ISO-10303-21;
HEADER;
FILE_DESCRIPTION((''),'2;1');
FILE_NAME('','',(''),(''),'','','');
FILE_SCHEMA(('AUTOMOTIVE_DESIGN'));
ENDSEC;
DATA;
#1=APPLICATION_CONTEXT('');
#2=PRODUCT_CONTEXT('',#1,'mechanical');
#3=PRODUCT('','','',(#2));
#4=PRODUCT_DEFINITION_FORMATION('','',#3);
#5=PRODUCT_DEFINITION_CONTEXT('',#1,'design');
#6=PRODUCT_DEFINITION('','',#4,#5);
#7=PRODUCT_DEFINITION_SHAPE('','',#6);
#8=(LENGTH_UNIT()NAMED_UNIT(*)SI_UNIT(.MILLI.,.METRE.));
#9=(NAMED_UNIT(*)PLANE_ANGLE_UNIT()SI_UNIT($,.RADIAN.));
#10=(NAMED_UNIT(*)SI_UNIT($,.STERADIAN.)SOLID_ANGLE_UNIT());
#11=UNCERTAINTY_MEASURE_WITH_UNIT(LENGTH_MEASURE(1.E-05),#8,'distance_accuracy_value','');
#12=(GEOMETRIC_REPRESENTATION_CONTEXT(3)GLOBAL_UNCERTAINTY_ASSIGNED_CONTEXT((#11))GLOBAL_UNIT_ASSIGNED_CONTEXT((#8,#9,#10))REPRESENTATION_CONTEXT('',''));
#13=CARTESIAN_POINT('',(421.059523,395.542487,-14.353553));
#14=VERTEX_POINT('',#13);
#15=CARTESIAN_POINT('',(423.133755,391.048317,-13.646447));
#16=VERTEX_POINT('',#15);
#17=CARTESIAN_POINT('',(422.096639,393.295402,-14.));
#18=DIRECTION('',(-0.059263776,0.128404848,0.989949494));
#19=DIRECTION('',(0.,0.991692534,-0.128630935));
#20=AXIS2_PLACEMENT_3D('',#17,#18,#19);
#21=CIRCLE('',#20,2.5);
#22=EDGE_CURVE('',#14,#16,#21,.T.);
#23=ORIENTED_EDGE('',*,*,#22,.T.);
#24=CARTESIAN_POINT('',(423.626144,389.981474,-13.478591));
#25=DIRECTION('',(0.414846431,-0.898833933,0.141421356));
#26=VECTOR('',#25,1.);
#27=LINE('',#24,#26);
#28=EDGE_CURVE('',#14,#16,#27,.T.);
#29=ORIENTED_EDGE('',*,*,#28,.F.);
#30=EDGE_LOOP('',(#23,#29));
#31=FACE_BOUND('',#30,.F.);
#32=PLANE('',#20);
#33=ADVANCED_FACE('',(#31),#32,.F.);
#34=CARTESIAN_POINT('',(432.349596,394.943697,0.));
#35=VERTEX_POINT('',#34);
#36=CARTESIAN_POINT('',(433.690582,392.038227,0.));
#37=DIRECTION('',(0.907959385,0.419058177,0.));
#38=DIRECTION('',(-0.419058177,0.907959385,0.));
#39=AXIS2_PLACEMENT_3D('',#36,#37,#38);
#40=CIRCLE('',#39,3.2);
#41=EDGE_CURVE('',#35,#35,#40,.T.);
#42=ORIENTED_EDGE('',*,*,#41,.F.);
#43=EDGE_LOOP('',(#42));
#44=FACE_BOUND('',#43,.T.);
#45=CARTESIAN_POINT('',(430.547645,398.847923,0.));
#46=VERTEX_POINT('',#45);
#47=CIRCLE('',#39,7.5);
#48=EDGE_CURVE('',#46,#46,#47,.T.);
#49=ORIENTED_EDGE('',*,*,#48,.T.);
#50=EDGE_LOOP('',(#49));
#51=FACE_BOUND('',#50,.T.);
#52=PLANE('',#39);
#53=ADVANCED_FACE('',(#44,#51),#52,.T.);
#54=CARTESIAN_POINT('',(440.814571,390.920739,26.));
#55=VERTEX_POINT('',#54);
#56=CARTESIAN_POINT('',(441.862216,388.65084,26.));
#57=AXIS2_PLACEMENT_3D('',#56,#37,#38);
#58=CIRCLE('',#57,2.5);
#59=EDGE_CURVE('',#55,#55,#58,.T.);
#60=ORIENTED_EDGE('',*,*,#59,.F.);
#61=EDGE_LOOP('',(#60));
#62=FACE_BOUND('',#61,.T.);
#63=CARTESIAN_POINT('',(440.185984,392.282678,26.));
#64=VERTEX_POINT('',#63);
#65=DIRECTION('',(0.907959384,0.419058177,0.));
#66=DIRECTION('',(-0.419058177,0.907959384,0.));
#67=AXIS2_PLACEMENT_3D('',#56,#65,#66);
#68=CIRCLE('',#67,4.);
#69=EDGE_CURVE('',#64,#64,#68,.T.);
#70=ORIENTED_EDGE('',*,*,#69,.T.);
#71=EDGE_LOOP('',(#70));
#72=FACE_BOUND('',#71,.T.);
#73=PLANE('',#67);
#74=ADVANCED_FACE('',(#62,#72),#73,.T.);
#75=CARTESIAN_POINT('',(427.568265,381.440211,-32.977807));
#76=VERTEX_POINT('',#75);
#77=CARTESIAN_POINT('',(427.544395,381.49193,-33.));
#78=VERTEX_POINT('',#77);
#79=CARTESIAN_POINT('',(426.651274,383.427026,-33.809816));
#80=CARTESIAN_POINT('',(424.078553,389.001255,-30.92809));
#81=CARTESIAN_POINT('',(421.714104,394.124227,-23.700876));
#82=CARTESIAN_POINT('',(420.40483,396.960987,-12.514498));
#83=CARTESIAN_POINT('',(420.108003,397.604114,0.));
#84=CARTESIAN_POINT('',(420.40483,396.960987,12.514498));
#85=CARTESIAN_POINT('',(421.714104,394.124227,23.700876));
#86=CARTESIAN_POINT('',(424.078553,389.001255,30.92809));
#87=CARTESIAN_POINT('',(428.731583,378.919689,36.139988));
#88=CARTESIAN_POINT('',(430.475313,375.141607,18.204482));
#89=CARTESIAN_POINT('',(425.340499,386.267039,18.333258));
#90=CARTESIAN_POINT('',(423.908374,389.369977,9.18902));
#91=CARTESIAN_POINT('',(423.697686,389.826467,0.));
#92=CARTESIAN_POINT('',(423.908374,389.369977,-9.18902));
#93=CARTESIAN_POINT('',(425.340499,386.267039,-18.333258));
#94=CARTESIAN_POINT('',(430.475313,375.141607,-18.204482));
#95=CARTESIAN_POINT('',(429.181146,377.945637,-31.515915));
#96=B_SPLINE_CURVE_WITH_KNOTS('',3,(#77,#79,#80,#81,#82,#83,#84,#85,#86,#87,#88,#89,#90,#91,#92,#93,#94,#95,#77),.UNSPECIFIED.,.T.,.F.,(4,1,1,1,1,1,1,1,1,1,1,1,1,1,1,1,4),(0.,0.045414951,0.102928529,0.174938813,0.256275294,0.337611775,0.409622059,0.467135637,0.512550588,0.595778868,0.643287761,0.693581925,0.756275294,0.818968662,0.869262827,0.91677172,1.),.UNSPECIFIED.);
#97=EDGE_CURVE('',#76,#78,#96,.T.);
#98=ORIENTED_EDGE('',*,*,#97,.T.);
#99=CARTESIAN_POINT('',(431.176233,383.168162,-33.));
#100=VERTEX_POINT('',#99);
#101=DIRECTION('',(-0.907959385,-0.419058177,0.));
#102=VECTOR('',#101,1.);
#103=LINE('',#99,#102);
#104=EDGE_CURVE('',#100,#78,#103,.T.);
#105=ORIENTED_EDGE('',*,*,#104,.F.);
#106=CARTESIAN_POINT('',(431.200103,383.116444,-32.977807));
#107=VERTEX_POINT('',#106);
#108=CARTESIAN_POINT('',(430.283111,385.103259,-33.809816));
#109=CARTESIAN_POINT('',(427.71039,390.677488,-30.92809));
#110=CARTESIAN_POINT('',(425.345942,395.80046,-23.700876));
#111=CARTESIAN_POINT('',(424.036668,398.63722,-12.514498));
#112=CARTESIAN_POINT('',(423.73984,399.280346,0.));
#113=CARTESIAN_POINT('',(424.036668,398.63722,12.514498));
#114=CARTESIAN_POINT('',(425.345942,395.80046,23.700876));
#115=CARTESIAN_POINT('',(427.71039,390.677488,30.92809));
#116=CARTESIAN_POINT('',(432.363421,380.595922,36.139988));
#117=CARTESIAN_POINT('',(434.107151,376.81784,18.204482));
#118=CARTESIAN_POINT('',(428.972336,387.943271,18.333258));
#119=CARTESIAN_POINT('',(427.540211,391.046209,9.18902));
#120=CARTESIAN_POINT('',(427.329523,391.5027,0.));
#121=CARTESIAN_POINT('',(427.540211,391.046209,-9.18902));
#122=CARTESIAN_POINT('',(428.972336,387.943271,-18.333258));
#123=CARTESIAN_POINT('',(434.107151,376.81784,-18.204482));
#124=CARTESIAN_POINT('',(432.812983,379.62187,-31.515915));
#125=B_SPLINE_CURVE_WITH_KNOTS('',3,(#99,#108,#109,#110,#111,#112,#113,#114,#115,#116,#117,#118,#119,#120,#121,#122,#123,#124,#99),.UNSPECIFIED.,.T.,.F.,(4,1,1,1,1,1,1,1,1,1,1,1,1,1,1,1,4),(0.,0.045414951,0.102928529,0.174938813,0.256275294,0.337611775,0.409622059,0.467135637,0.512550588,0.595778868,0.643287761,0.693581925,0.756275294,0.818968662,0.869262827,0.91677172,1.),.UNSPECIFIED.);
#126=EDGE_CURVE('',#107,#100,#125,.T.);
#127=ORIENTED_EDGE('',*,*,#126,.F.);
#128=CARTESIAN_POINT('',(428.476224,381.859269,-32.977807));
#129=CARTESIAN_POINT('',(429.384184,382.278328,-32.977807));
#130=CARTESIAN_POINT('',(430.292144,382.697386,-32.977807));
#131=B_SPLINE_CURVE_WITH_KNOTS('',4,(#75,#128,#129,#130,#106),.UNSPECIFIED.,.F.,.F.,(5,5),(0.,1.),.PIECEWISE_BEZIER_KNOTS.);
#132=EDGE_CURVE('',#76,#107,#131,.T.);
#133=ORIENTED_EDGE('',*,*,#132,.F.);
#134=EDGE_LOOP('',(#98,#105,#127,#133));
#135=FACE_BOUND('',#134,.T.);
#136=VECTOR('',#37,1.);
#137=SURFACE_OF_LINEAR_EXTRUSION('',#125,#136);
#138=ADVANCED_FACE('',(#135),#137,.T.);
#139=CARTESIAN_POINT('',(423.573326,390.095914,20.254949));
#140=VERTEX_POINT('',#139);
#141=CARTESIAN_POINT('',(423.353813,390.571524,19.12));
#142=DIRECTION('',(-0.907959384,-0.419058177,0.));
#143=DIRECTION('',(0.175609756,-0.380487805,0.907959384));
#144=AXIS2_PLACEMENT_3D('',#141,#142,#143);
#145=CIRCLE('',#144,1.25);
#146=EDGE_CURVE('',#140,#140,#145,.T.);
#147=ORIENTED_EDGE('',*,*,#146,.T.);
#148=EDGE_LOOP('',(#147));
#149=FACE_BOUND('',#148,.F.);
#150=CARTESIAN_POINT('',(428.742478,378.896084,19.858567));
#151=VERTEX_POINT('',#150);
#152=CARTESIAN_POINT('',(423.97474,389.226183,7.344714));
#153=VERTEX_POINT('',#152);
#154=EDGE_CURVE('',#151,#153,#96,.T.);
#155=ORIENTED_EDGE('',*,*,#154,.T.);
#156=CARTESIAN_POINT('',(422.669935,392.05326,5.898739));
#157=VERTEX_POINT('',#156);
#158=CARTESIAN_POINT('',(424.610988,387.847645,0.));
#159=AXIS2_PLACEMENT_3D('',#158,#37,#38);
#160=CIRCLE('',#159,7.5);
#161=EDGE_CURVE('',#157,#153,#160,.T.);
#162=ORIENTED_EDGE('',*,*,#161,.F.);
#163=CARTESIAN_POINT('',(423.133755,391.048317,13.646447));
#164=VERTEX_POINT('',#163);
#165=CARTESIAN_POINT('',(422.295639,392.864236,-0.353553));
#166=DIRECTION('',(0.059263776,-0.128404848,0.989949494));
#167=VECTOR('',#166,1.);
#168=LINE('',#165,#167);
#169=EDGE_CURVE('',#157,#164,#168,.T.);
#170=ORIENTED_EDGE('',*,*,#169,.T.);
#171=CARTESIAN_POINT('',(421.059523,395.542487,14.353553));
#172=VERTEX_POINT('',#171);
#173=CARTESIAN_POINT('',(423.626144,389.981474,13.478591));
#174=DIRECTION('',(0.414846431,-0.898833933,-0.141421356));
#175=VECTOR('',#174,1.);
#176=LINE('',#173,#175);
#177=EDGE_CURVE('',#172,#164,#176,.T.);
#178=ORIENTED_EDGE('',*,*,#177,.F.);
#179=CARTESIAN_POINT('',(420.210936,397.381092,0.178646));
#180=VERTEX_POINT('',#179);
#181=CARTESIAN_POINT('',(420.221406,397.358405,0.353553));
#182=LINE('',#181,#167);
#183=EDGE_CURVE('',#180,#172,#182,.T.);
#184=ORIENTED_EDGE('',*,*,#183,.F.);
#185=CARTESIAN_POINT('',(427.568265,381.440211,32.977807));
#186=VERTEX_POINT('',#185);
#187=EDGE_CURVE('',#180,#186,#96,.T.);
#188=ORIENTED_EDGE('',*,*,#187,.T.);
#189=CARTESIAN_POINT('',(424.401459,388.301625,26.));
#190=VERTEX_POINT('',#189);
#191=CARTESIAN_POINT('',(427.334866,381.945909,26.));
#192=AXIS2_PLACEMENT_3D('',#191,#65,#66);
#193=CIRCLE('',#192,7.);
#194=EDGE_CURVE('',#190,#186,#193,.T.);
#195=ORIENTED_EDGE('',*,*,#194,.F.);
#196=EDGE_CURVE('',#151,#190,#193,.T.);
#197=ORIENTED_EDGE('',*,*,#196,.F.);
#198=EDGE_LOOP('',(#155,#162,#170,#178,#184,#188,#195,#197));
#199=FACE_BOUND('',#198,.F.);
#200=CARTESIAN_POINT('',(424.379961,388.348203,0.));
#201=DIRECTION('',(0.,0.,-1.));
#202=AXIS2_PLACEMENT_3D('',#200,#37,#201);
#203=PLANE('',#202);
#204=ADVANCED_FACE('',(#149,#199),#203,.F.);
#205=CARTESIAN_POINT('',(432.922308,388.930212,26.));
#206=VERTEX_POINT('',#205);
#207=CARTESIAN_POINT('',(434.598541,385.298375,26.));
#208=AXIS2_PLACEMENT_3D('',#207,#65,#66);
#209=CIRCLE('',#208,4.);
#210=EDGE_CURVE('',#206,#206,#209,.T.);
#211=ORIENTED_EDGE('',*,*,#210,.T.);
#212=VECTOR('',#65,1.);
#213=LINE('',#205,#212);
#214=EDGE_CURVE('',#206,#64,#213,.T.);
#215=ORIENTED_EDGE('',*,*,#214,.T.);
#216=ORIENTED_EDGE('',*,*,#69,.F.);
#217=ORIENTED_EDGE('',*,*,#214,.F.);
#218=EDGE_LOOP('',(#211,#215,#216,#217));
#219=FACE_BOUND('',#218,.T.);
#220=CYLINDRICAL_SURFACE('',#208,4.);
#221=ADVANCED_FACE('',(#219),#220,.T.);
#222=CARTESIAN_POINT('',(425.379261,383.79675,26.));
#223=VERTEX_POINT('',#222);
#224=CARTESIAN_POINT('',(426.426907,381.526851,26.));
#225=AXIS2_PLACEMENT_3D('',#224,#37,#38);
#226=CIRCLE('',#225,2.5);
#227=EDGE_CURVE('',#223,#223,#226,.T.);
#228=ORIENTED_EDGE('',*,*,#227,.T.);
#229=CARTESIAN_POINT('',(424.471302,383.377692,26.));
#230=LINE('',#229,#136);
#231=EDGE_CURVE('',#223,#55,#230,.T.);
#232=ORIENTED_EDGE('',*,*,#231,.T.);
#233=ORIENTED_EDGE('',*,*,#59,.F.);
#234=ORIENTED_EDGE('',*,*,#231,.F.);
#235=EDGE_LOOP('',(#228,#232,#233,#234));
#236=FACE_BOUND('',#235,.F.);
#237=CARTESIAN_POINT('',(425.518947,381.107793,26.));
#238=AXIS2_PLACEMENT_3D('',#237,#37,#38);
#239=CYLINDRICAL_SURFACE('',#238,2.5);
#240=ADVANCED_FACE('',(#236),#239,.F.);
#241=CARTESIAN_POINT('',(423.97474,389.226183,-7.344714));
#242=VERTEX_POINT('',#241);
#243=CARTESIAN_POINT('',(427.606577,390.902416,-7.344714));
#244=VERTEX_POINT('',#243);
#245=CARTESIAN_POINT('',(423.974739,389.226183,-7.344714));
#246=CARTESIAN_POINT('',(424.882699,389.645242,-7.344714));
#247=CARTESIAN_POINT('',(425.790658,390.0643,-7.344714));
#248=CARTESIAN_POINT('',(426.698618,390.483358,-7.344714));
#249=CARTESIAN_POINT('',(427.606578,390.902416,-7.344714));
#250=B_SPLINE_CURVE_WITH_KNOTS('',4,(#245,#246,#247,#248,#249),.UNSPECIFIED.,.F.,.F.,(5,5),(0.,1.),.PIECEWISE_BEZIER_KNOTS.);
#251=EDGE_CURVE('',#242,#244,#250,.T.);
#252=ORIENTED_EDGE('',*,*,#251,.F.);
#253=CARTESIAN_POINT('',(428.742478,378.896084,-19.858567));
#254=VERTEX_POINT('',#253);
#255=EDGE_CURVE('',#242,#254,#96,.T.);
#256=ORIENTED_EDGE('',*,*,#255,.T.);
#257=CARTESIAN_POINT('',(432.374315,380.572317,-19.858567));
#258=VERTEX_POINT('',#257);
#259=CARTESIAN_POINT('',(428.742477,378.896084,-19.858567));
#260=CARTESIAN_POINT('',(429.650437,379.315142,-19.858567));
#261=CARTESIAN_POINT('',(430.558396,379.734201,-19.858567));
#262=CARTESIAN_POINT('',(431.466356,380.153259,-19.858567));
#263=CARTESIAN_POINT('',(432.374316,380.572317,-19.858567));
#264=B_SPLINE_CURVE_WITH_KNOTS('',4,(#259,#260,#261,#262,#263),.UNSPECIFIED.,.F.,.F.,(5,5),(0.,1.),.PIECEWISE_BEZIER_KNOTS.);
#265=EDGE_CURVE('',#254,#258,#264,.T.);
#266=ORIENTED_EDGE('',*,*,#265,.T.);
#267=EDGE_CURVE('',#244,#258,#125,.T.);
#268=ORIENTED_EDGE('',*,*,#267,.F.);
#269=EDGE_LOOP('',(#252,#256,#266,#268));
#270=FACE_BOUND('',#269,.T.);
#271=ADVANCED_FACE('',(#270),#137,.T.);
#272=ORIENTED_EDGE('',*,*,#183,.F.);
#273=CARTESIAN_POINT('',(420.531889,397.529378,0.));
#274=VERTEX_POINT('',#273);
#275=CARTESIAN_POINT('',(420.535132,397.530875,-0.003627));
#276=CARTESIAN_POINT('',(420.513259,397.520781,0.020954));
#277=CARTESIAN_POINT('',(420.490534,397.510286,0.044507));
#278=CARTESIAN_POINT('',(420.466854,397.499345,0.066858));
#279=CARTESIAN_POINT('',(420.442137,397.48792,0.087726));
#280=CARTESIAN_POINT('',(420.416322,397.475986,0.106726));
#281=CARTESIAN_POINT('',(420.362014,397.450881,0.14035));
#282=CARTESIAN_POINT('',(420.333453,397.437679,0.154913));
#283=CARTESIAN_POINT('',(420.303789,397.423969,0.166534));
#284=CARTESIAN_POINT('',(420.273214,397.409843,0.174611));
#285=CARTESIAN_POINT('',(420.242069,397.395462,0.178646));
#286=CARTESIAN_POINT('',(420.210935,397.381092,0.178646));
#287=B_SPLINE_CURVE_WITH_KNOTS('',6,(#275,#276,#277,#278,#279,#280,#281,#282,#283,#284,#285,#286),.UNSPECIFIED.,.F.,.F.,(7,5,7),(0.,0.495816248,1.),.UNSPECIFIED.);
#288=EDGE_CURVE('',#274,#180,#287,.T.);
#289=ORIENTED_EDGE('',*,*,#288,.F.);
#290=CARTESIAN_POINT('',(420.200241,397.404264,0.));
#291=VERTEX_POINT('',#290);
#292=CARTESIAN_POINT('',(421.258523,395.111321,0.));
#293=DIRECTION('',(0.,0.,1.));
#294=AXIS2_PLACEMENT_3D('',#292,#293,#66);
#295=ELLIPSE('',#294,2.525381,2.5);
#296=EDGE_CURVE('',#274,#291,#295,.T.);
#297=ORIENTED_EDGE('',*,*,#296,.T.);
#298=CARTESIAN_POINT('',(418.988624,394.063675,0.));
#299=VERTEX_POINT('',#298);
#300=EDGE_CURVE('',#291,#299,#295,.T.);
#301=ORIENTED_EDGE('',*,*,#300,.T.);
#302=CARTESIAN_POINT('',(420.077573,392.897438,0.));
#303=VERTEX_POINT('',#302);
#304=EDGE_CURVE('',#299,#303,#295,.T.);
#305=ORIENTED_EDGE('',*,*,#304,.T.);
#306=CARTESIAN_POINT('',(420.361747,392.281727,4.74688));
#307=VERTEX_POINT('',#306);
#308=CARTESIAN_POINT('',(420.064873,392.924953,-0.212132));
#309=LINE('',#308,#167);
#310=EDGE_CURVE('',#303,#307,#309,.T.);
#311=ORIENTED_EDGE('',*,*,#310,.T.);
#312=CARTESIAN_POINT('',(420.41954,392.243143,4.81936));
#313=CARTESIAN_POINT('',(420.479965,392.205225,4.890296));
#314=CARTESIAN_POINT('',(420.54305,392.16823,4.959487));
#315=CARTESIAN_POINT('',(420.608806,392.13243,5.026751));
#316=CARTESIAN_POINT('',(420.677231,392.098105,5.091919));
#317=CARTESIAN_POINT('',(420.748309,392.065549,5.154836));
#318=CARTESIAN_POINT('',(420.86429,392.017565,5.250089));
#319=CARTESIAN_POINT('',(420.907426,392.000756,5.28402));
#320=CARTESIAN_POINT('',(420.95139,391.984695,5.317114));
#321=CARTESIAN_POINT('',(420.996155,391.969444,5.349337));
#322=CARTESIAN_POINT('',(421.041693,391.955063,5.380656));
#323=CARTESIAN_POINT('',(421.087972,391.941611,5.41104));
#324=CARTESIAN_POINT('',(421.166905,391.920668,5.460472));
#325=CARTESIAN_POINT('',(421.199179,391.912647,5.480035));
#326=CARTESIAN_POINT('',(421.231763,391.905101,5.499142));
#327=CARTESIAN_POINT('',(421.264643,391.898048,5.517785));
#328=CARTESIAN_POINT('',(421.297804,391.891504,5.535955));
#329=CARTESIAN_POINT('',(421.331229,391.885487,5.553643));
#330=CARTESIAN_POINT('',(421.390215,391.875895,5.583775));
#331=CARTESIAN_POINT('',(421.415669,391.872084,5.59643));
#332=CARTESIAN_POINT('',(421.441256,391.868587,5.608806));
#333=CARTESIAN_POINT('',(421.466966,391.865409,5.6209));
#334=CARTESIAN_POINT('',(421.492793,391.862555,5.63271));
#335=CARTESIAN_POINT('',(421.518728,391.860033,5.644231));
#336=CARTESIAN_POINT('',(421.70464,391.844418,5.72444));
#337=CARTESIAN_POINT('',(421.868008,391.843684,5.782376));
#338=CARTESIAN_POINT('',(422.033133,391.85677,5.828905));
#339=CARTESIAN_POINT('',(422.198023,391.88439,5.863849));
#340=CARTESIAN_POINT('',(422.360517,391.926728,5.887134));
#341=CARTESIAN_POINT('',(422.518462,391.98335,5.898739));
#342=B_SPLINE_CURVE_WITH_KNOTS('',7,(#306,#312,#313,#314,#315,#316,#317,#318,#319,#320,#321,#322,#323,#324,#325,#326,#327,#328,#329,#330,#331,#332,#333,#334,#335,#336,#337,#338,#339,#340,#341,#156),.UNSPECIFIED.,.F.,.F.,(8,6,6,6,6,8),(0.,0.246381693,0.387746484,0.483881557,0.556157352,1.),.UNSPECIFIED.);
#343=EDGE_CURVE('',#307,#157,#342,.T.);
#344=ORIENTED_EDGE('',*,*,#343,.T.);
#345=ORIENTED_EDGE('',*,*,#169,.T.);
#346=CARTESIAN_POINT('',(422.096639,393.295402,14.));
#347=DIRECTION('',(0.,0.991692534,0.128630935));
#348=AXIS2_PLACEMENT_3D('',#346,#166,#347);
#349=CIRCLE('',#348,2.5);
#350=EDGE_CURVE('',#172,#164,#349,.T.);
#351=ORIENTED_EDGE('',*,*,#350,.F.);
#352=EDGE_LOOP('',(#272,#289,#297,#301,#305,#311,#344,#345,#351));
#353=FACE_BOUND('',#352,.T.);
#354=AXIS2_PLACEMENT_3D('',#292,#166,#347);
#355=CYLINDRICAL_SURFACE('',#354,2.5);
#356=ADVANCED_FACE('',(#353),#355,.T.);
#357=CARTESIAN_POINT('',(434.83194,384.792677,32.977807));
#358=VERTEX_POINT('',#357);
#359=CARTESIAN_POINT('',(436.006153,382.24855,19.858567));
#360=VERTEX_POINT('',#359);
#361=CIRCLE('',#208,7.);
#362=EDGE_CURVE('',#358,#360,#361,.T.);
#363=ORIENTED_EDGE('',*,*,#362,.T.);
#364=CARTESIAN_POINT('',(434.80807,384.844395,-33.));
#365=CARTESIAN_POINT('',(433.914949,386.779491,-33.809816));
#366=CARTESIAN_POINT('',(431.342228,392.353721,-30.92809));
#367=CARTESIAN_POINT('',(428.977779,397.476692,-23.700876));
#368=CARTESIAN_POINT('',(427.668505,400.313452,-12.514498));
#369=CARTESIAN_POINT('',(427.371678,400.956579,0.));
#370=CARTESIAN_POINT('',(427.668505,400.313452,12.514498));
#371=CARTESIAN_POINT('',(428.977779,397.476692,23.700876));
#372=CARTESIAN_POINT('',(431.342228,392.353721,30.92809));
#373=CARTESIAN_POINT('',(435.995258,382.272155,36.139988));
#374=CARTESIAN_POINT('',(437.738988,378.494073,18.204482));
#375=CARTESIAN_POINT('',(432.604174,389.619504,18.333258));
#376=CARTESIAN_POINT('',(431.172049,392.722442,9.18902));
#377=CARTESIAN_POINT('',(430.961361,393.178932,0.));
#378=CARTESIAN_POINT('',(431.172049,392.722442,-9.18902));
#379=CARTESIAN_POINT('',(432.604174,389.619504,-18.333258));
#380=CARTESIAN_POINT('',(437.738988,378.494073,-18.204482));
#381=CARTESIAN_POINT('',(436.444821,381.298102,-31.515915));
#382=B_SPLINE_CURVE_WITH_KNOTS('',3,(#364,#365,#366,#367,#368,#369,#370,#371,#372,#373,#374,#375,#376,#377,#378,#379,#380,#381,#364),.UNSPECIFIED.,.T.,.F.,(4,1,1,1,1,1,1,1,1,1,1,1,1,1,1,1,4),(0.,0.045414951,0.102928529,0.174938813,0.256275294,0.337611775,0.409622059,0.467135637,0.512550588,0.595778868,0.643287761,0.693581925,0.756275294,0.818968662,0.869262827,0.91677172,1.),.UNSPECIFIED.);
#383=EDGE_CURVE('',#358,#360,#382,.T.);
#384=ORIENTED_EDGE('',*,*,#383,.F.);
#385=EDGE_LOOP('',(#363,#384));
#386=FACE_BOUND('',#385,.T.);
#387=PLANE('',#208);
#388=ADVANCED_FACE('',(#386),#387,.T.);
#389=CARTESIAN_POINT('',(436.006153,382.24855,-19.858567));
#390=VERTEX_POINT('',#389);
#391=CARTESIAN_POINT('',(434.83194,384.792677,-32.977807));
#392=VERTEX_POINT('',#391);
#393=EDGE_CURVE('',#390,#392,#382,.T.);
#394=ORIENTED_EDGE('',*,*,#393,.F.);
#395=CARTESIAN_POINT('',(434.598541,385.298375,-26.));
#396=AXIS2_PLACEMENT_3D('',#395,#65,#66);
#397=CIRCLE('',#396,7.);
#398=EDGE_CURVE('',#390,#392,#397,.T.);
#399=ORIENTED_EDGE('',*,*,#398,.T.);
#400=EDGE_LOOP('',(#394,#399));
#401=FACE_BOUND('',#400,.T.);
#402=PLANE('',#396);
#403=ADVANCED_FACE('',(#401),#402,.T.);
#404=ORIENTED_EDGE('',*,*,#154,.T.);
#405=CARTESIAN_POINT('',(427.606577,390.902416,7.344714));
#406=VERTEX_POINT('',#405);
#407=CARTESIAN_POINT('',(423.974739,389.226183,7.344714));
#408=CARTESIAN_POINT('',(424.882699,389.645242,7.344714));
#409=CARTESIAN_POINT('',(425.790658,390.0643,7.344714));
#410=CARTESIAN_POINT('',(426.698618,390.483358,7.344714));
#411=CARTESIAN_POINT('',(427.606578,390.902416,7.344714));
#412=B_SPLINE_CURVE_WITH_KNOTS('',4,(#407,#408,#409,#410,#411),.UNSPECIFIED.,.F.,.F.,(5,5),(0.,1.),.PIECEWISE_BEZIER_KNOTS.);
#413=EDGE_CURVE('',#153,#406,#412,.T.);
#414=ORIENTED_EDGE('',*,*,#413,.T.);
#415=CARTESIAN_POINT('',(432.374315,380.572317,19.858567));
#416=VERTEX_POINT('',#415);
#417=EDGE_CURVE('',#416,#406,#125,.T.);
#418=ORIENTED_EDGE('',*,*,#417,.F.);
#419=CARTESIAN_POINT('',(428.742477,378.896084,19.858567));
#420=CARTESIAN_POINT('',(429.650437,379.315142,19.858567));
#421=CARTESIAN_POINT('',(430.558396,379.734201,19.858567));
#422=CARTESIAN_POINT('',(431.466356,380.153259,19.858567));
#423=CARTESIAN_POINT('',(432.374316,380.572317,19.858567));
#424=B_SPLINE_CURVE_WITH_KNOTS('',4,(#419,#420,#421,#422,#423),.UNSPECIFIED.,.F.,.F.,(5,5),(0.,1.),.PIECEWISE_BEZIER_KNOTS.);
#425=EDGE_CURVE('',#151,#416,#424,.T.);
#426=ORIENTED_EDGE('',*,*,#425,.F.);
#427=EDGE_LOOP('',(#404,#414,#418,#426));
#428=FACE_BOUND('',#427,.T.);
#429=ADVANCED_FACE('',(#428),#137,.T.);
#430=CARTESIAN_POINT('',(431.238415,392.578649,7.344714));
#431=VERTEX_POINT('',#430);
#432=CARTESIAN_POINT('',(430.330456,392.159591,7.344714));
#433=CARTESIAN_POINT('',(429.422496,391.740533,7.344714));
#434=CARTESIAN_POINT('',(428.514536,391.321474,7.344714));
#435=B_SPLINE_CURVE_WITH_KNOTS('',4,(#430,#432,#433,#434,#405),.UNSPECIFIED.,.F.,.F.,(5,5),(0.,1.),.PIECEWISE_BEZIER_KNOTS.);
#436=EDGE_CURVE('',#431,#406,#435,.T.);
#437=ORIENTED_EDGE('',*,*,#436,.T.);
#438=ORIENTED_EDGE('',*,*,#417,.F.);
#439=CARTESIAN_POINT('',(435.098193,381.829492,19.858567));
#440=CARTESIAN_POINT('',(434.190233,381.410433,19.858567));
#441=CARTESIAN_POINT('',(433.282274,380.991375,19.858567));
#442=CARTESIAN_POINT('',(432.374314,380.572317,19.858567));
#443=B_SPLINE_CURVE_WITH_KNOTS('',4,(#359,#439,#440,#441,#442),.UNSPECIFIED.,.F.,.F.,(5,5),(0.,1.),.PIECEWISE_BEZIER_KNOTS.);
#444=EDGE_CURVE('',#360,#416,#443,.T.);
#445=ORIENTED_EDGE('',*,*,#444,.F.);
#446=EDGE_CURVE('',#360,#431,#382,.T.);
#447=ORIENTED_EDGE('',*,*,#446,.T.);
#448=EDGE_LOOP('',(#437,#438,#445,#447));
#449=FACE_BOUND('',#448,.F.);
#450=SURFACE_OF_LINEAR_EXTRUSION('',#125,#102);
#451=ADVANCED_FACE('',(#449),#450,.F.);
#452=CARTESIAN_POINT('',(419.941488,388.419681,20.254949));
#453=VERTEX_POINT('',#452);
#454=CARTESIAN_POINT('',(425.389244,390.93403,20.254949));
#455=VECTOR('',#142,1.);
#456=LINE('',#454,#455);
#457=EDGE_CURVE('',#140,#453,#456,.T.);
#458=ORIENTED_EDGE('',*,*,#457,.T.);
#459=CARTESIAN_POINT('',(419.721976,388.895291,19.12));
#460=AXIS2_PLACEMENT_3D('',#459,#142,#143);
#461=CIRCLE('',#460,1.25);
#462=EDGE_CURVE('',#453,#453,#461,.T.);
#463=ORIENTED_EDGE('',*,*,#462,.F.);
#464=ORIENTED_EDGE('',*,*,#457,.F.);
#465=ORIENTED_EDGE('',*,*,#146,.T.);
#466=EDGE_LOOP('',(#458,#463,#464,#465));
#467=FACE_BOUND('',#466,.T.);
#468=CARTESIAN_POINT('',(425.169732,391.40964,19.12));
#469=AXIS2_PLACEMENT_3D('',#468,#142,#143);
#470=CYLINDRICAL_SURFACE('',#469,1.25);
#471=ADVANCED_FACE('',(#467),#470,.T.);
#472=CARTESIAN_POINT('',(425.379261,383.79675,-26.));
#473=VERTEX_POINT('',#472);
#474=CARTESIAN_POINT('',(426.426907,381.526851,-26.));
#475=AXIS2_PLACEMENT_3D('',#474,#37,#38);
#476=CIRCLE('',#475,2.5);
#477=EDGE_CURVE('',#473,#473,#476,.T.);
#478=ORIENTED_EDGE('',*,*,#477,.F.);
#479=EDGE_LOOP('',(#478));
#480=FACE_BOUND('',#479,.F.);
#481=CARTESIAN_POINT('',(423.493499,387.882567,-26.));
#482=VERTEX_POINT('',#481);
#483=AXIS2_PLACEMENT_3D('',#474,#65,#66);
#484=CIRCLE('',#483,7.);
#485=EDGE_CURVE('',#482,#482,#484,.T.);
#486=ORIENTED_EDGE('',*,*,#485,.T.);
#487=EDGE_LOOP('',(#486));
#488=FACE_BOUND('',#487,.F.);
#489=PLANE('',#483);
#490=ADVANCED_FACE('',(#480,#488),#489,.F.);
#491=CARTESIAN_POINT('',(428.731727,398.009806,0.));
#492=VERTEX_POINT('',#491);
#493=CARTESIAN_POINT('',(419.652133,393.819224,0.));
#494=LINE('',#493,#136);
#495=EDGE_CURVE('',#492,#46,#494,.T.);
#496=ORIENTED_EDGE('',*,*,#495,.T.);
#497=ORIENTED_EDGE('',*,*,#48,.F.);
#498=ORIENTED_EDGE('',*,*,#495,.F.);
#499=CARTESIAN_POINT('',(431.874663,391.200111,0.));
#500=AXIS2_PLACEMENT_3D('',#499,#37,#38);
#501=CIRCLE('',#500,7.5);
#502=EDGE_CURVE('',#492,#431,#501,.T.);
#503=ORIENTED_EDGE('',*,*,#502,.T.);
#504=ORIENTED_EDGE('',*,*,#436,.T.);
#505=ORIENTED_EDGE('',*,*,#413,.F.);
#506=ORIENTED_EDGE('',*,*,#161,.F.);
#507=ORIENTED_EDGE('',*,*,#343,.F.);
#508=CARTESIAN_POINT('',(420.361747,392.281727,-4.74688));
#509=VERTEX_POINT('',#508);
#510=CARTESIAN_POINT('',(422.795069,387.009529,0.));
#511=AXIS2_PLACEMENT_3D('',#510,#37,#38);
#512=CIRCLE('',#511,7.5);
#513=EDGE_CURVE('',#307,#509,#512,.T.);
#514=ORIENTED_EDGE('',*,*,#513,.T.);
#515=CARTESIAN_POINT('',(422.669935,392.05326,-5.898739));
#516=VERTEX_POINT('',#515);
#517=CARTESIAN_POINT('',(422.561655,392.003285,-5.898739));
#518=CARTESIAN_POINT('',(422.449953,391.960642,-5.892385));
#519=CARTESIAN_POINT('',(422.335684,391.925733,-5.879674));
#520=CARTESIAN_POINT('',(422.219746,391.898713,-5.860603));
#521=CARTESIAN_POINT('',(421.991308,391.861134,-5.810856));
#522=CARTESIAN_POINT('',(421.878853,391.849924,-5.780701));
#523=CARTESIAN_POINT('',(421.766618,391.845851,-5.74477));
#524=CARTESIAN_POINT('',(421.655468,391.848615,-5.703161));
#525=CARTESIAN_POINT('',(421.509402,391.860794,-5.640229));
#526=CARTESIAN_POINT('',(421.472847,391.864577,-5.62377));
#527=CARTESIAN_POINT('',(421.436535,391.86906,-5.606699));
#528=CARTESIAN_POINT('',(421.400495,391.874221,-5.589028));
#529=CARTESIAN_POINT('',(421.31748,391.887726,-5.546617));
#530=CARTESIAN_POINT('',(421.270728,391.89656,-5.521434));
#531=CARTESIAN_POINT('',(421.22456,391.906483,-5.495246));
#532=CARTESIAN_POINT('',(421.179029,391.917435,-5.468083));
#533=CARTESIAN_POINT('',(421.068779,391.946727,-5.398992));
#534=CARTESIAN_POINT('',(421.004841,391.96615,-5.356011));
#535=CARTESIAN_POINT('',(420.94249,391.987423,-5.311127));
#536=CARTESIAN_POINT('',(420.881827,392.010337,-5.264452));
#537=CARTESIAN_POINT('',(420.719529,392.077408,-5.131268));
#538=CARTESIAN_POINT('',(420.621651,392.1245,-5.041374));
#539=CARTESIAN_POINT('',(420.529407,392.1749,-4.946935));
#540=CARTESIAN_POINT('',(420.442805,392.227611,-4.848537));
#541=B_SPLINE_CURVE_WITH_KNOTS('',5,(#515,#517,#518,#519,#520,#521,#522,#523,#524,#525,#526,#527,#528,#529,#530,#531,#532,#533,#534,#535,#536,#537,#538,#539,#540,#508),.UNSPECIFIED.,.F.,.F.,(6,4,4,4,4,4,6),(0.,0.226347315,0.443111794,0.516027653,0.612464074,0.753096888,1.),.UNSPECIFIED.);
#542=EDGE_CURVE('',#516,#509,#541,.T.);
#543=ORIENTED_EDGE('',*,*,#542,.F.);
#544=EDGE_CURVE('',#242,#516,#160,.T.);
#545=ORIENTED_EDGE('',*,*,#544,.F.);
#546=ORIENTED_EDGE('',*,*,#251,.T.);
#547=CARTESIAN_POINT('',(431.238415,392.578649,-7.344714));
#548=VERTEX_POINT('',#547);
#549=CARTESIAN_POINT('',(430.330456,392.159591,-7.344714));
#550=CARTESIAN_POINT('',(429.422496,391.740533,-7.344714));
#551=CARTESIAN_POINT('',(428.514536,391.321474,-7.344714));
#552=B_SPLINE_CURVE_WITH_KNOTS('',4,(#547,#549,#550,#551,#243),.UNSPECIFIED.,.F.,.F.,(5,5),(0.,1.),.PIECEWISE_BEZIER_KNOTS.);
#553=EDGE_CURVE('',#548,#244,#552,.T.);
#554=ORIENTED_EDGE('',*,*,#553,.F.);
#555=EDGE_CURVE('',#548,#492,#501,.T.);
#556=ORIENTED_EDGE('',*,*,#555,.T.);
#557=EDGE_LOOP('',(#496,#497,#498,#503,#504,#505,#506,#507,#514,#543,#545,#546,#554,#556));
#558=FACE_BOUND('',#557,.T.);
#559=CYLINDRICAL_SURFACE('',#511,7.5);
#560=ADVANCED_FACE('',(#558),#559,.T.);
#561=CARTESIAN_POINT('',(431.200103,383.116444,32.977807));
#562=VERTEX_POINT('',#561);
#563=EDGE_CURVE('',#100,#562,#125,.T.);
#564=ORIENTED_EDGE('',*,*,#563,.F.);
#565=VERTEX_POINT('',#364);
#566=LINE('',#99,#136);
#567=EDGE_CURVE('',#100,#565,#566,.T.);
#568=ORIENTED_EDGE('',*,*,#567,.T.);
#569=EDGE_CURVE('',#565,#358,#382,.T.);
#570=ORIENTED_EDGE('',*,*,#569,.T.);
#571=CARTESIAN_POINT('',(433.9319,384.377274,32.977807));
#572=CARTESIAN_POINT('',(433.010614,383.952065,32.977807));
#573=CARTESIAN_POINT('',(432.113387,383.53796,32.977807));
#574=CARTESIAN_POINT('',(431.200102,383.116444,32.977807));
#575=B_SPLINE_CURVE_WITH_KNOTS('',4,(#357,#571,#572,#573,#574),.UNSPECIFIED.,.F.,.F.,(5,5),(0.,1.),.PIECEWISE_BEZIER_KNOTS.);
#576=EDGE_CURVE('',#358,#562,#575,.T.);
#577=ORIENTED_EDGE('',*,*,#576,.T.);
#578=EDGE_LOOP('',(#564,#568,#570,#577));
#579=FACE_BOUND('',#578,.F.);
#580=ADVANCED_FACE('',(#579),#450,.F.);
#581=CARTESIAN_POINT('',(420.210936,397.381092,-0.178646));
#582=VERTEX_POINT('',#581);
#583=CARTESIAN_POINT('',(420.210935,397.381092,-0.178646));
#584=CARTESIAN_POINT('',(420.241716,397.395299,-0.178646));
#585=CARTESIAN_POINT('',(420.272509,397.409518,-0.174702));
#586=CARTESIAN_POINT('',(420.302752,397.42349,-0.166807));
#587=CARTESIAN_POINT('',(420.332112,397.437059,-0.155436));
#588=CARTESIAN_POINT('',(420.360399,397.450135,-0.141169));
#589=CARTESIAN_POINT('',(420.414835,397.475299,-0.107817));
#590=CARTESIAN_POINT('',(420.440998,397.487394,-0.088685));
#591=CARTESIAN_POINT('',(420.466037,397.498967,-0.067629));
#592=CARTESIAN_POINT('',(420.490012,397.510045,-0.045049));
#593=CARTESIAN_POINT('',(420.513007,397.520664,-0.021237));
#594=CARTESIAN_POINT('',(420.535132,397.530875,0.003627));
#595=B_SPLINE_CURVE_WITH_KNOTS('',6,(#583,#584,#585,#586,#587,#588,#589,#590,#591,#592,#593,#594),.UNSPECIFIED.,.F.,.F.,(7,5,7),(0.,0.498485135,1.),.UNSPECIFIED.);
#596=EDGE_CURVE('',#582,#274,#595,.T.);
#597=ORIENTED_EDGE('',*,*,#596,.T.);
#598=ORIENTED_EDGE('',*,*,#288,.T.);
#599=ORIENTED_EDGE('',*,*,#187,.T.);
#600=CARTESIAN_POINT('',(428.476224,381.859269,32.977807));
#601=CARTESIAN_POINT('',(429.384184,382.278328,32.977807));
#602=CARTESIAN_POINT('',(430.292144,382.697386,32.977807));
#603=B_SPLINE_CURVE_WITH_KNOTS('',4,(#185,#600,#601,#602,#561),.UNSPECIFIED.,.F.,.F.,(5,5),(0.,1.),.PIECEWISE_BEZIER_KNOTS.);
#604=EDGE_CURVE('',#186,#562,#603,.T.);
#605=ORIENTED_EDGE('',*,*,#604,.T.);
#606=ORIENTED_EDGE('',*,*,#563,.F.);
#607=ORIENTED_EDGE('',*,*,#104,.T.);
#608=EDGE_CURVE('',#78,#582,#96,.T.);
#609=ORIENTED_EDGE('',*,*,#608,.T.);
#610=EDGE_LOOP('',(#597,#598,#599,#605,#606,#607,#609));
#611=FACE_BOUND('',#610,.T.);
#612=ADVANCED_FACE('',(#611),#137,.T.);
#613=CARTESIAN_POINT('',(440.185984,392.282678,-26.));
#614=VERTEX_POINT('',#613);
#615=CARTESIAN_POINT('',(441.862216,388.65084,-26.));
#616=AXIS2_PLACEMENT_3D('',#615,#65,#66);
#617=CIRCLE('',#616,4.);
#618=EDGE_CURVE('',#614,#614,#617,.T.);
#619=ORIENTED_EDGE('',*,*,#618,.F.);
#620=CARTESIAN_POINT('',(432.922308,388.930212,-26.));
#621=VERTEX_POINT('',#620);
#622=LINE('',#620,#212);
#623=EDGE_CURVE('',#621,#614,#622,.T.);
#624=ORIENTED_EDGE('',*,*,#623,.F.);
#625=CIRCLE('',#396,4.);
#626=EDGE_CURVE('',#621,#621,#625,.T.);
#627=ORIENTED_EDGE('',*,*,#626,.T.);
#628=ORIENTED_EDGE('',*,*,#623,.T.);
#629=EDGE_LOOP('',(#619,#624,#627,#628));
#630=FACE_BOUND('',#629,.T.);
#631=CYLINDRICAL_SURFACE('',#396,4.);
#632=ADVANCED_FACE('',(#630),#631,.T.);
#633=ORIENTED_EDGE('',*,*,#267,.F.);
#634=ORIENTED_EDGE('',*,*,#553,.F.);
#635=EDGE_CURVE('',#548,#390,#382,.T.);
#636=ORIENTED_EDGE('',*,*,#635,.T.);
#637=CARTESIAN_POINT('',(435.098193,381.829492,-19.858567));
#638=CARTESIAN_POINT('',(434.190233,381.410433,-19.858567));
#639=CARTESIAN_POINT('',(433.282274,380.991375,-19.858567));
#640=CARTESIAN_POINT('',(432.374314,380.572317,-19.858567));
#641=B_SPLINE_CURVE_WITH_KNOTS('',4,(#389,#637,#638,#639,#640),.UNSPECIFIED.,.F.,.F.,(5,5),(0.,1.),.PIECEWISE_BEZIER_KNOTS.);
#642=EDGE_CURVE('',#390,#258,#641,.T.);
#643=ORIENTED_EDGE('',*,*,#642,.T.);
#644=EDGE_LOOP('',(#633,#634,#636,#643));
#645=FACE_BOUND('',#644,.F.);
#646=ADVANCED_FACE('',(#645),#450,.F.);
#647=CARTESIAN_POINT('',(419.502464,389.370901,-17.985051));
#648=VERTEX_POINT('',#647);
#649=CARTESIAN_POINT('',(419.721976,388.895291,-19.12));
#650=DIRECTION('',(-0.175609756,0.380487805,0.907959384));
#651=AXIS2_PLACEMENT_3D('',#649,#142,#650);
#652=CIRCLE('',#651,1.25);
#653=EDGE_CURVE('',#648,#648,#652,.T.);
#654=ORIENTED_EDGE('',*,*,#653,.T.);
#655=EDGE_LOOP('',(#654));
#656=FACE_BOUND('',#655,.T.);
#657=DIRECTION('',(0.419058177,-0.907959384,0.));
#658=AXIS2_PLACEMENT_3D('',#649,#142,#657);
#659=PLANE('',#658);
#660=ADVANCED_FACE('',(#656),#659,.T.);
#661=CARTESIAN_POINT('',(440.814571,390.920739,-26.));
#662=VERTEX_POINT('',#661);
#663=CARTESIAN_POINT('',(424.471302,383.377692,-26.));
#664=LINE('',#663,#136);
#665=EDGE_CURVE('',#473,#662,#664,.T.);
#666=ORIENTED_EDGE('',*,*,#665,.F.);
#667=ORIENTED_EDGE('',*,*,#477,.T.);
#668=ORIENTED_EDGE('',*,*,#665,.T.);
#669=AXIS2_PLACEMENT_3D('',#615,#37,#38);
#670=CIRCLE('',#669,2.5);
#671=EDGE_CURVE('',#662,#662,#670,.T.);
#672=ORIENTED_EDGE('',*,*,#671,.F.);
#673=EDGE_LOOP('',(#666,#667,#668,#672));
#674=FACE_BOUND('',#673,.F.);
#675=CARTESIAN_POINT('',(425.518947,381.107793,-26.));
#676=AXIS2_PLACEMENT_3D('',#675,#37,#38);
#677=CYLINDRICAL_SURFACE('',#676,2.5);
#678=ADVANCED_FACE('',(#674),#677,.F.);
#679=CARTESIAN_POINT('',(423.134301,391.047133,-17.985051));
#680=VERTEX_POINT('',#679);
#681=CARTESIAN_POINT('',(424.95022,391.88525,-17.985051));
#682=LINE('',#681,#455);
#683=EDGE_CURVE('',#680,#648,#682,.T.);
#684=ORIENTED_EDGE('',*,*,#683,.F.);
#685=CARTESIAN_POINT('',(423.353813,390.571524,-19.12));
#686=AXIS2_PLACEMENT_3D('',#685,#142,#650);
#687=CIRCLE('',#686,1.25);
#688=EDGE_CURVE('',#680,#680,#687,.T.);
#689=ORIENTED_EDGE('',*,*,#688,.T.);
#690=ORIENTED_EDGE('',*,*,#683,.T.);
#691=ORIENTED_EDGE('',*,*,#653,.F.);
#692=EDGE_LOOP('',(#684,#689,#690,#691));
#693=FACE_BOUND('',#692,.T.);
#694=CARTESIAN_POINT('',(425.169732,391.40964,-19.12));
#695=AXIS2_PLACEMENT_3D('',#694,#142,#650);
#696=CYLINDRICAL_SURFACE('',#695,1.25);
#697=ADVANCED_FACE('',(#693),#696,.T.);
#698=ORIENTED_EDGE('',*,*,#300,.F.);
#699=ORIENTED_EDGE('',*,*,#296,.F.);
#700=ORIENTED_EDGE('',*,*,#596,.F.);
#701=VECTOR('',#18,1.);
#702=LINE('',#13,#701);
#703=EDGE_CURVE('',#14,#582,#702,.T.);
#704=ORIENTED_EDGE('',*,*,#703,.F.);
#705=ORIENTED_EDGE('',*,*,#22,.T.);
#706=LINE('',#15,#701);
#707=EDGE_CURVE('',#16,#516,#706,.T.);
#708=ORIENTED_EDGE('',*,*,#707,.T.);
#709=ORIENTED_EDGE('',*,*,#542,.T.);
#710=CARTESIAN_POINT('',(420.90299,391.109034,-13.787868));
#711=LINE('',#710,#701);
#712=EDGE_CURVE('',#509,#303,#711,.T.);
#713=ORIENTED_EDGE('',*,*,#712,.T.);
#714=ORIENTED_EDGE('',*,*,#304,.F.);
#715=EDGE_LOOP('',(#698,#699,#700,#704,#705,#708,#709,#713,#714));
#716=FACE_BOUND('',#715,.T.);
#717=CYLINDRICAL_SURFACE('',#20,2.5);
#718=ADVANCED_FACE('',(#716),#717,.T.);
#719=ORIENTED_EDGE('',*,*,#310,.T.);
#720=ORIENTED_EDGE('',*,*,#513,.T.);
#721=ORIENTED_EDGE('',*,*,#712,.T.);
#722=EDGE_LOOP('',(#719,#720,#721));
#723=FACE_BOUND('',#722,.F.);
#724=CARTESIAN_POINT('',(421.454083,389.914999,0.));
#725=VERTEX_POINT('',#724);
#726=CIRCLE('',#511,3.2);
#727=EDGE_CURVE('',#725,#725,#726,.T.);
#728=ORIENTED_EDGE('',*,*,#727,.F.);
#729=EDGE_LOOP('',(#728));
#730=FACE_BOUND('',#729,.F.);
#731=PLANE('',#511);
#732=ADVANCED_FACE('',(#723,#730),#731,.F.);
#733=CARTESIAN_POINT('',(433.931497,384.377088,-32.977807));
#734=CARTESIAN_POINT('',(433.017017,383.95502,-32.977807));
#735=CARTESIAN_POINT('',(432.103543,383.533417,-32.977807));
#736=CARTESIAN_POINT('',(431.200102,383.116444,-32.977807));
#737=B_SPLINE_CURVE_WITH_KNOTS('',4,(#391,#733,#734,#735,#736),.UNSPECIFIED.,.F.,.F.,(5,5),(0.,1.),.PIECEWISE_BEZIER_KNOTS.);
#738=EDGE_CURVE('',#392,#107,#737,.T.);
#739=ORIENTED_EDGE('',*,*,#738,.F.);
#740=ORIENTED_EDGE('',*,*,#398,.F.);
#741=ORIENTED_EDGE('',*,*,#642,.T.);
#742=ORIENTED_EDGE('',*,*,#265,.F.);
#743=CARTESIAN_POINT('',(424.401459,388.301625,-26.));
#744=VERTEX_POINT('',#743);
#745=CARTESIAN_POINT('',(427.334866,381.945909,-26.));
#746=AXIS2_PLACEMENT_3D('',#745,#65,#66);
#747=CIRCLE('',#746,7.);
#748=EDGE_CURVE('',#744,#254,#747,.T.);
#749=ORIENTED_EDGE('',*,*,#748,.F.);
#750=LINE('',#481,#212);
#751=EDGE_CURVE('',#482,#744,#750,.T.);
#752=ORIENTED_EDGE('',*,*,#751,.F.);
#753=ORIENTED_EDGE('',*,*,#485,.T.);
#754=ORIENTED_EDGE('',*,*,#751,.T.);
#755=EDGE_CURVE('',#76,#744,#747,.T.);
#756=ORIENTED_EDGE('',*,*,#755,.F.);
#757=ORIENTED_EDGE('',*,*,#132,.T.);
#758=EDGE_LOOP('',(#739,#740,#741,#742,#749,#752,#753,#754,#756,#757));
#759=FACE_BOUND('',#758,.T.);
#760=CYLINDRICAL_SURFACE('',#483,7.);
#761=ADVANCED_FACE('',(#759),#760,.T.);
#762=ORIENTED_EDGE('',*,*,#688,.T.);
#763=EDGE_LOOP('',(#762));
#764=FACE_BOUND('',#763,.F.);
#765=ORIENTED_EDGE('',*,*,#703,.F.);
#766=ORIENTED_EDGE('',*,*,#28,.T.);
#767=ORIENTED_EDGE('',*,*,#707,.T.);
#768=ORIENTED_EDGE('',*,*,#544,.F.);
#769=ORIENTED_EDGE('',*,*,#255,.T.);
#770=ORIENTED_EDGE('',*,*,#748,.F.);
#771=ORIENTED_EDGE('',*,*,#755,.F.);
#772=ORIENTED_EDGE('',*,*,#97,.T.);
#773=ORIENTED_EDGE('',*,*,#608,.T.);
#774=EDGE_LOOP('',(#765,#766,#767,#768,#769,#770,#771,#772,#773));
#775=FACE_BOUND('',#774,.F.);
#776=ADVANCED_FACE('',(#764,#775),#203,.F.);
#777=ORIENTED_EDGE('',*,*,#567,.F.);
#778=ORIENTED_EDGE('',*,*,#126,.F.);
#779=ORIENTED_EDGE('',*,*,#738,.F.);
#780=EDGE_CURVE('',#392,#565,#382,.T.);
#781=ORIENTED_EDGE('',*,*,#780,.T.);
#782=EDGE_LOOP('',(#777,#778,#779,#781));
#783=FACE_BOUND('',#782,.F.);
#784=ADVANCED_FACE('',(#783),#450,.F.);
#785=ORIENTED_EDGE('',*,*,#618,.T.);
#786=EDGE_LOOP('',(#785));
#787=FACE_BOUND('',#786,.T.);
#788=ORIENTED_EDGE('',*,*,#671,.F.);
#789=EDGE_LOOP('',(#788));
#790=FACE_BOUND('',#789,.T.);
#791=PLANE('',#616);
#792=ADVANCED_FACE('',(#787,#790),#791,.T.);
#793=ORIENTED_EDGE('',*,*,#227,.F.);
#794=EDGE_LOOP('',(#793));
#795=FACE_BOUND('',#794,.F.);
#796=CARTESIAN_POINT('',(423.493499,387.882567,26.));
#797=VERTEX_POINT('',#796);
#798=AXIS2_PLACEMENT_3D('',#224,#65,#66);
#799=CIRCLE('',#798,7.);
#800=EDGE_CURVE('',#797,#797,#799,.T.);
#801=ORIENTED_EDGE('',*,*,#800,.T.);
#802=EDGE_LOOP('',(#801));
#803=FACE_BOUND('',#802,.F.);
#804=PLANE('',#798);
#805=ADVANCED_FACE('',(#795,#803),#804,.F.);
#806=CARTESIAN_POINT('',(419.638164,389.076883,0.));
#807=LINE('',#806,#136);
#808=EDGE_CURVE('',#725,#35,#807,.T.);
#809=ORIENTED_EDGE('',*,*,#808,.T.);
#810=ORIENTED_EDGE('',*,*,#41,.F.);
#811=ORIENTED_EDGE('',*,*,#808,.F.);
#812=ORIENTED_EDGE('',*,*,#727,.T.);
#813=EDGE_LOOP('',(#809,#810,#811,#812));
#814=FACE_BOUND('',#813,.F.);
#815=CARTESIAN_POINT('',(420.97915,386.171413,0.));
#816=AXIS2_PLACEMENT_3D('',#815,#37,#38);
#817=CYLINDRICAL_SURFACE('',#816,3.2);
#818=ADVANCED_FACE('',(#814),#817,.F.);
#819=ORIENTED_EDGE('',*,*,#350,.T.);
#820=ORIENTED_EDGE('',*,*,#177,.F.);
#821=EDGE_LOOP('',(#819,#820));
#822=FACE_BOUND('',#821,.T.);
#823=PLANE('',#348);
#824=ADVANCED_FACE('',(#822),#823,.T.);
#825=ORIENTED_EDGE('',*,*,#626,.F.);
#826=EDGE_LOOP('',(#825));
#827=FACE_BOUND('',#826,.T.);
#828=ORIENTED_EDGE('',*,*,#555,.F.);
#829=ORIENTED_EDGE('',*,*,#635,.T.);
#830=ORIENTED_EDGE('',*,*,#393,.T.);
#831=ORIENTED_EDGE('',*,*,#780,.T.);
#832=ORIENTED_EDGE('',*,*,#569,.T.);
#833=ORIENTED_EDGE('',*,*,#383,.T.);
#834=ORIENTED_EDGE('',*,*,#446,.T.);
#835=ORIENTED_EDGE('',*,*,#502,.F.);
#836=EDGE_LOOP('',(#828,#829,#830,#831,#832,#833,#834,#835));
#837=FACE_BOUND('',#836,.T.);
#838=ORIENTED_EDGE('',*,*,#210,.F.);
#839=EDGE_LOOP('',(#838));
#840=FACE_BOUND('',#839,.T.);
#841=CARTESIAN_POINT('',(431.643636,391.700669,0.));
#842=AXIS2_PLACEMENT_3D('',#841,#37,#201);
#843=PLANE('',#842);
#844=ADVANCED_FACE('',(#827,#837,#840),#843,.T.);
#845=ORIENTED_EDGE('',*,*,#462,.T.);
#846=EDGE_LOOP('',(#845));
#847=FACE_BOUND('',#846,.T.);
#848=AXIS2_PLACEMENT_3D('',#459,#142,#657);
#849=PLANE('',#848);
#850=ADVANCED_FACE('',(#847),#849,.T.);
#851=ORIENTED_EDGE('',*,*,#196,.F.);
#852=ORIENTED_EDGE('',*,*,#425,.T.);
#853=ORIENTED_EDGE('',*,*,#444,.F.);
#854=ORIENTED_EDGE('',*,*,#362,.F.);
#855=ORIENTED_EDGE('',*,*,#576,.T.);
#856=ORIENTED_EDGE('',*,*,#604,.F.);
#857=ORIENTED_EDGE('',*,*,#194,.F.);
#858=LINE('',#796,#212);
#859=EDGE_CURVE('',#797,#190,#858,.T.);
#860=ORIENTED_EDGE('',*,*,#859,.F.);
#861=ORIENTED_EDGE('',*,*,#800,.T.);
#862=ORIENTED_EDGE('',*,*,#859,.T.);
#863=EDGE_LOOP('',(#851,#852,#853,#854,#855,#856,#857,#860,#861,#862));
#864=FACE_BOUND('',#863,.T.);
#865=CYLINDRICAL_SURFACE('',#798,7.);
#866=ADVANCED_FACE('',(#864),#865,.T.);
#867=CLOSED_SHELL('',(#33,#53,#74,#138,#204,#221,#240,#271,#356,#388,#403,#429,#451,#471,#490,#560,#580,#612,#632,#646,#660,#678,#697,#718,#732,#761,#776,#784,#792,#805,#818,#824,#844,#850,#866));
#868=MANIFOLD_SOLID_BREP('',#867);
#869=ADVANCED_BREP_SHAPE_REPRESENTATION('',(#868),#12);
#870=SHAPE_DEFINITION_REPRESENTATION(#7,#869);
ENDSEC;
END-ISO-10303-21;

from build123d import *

# Parameters (mm, degrees)
ARCO_DEPTH                  = 4
NERVIO_PROFILE_R            = 2.5
BUJE_CENTRAL_PROFILE_R      = 7.5
BUJE_PIVOTE_IZQ_PROFILE_R   = 7
PIVOTE_IZQ_PROFILE_R        = 4
TOPE_MUELLE_IZQ_PROFILE_R   = 1.25
BUJE_PIVOTE_DCHO_PROFILE_R  = 7
PIVOTE_DCHO_PROFILE_R       = 4
TOPE_MUELLE_DCHO_PROFILE_R  = 1.25
TALADRO_CENTRAL_PROFILE_R   = 3.2
ROSCA_PIVOTE_IZQ_PROFILE_R  = 2.5
ROSCA_PIVOTE_DCHO_PROFILE_R = 2.5


with BuildPart() as part:
    # Sk_Arco → Arco (new, symmetric)
    with BuildSketch(Plane(origin=(501.248292683, 231.345365854, 0), x_dir=(0, 0, 1), z_dir=(-0.9079593845004519, -0.41905817746174673, 0))):
        with BuildLine():
            add(Edge.make_bspline(
                [(-33, 167.213202705), (-33.809816396, 169.344461115), (-30.928090457, 175.483754763), (-23.700876042, 181.126046734), (-12.514498078, 184.250371428), (0, 184.958692509), (12.514498078, 184.250371428), (23.700876042, 181.126046734), (30.928090457, 175.483754763), (36.139987599, 164.380212062), (18.204481714, 160.219142822), (18.333257884, 172.472368475), (9.189019684, 175.889853969), (0, 176.39261915), (-9.189019684, 175.889853969), (-18.333257884, 172.472368475), (-18.204481714, 160.219142822), (-31.51591549, 163.307419115), (-33, 167.213202705)],
                knots=[0, 0, 0, 0, 0.045414951, 0.102928529, 0.174938813, 0.256275294, 0.337611775, 0.409622059, 0.467135637, 0.512550588, 0.595778868, 0.643287761, 0.693581925, 0.756275294, 0.818968662, 0.869262827, 0.91677172, 1, 1, 1, 1], degree=3))
        make_face()
    extrude(amount=ARCO_DEPTH, both=True)

    # Nervio: sweep along a curve in space
    with BuildLine() as nervio_path:
        Line((422.096638865, 393.295401751, -14), (421.25852251, 395.11132052, 0))
        Line((421.25852251, 395.11132052, 0), (422.096638865, 393.295401751, 14))
    # Nervio profile (on start of the path) → Nervio (sweep)
    with BuildSketch(Plane(origin=(422.096638865, 393.295401751, -14), x_dir=(0, 0.9916925343228529, -0.12863093472534984), z_dir=(-0.05926377579897181, 0.12840484756444362, 0.9899494936611671))):
        Circle(NERVIO_PROFILE_R)
    sweep(path=nervio_path.line, transition=Transition.RIGHT)

    # Buje_central: sweep along a curve in space
    with BuildLine() as buje_central_path:
        Line((422.795069161, 387.009529089, 0), (433.690581775, 392.038227218, 0))
    # Buje_central profile (on start of the path) → Buje_central (sweep)
    with BuildSketch(Plane(origin=(422.795069161, 387.009529089, 0), x_dir=(-0.4190581774617505, 0.90795938450045, 0), z_dir=(0.90795938450045, 0.4190581774617505, 0))):
        Circle(BUJE_CENTRAL_PROFILE_R)
    sweep(path=buje_central_path.line)

    # Buje_pivote_izq: sweep along a curve in space
    with BuildLine() as buje_pivote_izq_path:
        Line((426.426906699, 381.526851267, -26), (434.598541159, 385.298374864, -26))
    # Buje_pivote_izq profile (on start of the path) → Buje_pivote_izq (sweep)
    with BuildSketch(Plane(origin=(426.426906699, 381.526851267, -26), x_dir=(-0.41905817746174817, 0.9079593845004512, 0), z_dir=(0.9079593845004512, 0.41905817746174817, 0))):
        Circle(BUJE_PIVOTE_IZQ_PROFILE_R)
    sweep(path=buje_pivote_izq_path.line)

    # Pivote_izq: sweep along a curve in space
    with BuildLine() as pivote_izq_path:
        Line((434.598541159, 385.298374864, -26), (441.862216235, 388.650840284, -26))
    # Pivote_izq profile (on start of the path) → Pivote_izq (sweep)
    with BuildSketch(Plane(origin=(434.598541159, 385.298374864, -26), x_dir=(-0.4190581774617438, 0.9079593845004531, 0), z_dir=(0.9079593845004531, 0.4190581774617438, 0))):
        Circle(PIVOTE_IZQ_PROFILE_R)
    sweep(path=pivote_izq_path.line)

    # Tope_muelle_izq: sweep along a curve in space
    with BuildLine() as tope_muelle_izq_path:
        Line((425.169732166, 391.409639952, -16.12), (425.169732166, 391.409639952, -19.12))
        Line((425.169732166, 391.409639952, -19.12), (419.721975859, 388.895290887, -19.12))
    # Tope_muelle_izq profile (on start of the path) → Tope_muelle_izq (sweep)
    with BuildSketch(Plane(origin=(425.169732166, 391.409639952, -16.12), x_dir=(-1, 0, 0), z_dir=(0, 0, -1))):
        Circle(TOPE_MUELLE_IZQ_PROFILE_R)
    sweep(path=tope_muelle_izq_path.line, transition=Transition.RIGHT)

    # Buje_pivote_dcho: sweep along a curve in space
    with BuildLine() as buje_pivote_dcho_path:
        Line((426.426906699, 381.526851267, 26), (434.598541159, 385.298374864, 26))
    # Buje_pivote_dcho profile (on start of the path) → Buje_pivote_dcho (sweep)
    with BuildSketch(Plane(origin=(426.426906699, 381.526851267, 26), x_dir=(-0.41905817746174817, 0.9079593845004512, 0), z_dir=(0.9079593845004512, 0.41905817746174817, 0))):
        Circle(BUJE_PIVOTE_DCHO_PROFILE_R)
    sweep(path=buje_pivote_dcho_path.line)

    # Pivote_dcho: sweep along a curve in space
    with BuildLine() as pivote_dcho_path:
        Line((434.598541159, 385.298374864, 26), (441.862216235, 388.650840284, 26))
    # Pivote_dcho profile (on start of the path) → Pivote_dcho (sweep)
    with BuildSketch(Plane(origin=(434.598541159, 385.298374864, 26), x_dir=(-0.4190581774617438, 0.9079593845004531, 0), z_dir=(0.9079593845004531, 0.4190581774617438, 0))):
        Circle(PIVOTE_DCHO_PROFILE_R)
    sweep(path=pivote_dcho_path.line)

    # Tope_muelle_dcho: sweep along a curve in space
    with BuildLine() as tope_muelle_dcho_path:
        Line((425.169732166, 391.409639952, 16.12), (425.169732166, 391.409639952, 19.12))
        Line((425.169732166, 391.409639952, 19.12), (419.721975859, 388.895290887, 19.12))
    # Tope_muelle_dcho profile (on start of the path) → Tope_muelle_dcho (sweep)
    with BuildSketch(Plane(origin=(425.169732166, 391.409639952, 16.12), x_dir=(1, 0, 0), z_dir=(0, 0, 1))):
        Circle(TOPE_MUELLE_DCHO_PROFILE_R)
    sweep(path=tope_muelle_dcho_path.line, transition=Transition.RIGHT)

    # Taladro_central: sweep along a curve in space
    with BuildLine() as taladro_central_path:
        Line((420.979150392, 386.171412734, 0), (435.506500544, 392.876343573, 0))
    # Taladro_central profile (on start of the path) → Taladro_central (sweep, cut)
    with BuildSketch(Plane(origin=(420.979150392, 386.171412734, 0), x_dir=(-0.4190581774617496, 0.9079593845004504, 0), z_dir=(0.9079593845004504, 0.4190581774617496, 0))):
        Circle(TALADRO_CENTRAL_PROFILE_R)
    sweep(path=taladro_central_path.line, mode=Mode.SUBTRACT)

    # Rosca_pivote_izq: sweep along a curve in space
    with BuildLine() as rosca_pivote_izq_path:
        Line((425.518947314, 381.107793089, -26), (442.77017562, 389.069898461, -26))
    # Rosca_pivote_izq profile (on start of the path) → Rosca_pivote_izq (sweep, cut)
    with BuildSketch(Plane(origin=(425.518947314, 381.107793089, -26), x_dir=(-0.41905817746174734, 0.9079593845004515, 0), z_dir=(0.9079593845004515, 0.41905817746174734, 0))):
        Circle(ROSCA_PIVOTE_IZQ_PROFILE_R)
    sweep(path=rosca_pivote_izq_path.line, mode=Mode.SUBTRACT)

    # Rosca_pivote_dcho: sweep along a curve in space
    with BuildLine() as rosca_pivote_dcho_path:
        Line((425.518947314, 381.107793089, 26), (442.77017562, 389.069898461, 26))
    # Rosca_pivote_dcho profile (on start of the path) → Rosca_pivote_dcho (sweep, cut)
    with BuildSketch(Plane(origin=(425.518947314, 381.107793089, 26), x_dir=(-0.41905817746174734, 0.9079593845004515, 0), z_dir=(0.9079593845004515, 0.41905817746174734, 0))):
        Circle(ROSCA_PIVOTE_DCHO_PROFILE_R)
    sweep(path=rosca_pivote_dcho_path.line, mode=Mode.SUBTRACT)


solid = part.part
